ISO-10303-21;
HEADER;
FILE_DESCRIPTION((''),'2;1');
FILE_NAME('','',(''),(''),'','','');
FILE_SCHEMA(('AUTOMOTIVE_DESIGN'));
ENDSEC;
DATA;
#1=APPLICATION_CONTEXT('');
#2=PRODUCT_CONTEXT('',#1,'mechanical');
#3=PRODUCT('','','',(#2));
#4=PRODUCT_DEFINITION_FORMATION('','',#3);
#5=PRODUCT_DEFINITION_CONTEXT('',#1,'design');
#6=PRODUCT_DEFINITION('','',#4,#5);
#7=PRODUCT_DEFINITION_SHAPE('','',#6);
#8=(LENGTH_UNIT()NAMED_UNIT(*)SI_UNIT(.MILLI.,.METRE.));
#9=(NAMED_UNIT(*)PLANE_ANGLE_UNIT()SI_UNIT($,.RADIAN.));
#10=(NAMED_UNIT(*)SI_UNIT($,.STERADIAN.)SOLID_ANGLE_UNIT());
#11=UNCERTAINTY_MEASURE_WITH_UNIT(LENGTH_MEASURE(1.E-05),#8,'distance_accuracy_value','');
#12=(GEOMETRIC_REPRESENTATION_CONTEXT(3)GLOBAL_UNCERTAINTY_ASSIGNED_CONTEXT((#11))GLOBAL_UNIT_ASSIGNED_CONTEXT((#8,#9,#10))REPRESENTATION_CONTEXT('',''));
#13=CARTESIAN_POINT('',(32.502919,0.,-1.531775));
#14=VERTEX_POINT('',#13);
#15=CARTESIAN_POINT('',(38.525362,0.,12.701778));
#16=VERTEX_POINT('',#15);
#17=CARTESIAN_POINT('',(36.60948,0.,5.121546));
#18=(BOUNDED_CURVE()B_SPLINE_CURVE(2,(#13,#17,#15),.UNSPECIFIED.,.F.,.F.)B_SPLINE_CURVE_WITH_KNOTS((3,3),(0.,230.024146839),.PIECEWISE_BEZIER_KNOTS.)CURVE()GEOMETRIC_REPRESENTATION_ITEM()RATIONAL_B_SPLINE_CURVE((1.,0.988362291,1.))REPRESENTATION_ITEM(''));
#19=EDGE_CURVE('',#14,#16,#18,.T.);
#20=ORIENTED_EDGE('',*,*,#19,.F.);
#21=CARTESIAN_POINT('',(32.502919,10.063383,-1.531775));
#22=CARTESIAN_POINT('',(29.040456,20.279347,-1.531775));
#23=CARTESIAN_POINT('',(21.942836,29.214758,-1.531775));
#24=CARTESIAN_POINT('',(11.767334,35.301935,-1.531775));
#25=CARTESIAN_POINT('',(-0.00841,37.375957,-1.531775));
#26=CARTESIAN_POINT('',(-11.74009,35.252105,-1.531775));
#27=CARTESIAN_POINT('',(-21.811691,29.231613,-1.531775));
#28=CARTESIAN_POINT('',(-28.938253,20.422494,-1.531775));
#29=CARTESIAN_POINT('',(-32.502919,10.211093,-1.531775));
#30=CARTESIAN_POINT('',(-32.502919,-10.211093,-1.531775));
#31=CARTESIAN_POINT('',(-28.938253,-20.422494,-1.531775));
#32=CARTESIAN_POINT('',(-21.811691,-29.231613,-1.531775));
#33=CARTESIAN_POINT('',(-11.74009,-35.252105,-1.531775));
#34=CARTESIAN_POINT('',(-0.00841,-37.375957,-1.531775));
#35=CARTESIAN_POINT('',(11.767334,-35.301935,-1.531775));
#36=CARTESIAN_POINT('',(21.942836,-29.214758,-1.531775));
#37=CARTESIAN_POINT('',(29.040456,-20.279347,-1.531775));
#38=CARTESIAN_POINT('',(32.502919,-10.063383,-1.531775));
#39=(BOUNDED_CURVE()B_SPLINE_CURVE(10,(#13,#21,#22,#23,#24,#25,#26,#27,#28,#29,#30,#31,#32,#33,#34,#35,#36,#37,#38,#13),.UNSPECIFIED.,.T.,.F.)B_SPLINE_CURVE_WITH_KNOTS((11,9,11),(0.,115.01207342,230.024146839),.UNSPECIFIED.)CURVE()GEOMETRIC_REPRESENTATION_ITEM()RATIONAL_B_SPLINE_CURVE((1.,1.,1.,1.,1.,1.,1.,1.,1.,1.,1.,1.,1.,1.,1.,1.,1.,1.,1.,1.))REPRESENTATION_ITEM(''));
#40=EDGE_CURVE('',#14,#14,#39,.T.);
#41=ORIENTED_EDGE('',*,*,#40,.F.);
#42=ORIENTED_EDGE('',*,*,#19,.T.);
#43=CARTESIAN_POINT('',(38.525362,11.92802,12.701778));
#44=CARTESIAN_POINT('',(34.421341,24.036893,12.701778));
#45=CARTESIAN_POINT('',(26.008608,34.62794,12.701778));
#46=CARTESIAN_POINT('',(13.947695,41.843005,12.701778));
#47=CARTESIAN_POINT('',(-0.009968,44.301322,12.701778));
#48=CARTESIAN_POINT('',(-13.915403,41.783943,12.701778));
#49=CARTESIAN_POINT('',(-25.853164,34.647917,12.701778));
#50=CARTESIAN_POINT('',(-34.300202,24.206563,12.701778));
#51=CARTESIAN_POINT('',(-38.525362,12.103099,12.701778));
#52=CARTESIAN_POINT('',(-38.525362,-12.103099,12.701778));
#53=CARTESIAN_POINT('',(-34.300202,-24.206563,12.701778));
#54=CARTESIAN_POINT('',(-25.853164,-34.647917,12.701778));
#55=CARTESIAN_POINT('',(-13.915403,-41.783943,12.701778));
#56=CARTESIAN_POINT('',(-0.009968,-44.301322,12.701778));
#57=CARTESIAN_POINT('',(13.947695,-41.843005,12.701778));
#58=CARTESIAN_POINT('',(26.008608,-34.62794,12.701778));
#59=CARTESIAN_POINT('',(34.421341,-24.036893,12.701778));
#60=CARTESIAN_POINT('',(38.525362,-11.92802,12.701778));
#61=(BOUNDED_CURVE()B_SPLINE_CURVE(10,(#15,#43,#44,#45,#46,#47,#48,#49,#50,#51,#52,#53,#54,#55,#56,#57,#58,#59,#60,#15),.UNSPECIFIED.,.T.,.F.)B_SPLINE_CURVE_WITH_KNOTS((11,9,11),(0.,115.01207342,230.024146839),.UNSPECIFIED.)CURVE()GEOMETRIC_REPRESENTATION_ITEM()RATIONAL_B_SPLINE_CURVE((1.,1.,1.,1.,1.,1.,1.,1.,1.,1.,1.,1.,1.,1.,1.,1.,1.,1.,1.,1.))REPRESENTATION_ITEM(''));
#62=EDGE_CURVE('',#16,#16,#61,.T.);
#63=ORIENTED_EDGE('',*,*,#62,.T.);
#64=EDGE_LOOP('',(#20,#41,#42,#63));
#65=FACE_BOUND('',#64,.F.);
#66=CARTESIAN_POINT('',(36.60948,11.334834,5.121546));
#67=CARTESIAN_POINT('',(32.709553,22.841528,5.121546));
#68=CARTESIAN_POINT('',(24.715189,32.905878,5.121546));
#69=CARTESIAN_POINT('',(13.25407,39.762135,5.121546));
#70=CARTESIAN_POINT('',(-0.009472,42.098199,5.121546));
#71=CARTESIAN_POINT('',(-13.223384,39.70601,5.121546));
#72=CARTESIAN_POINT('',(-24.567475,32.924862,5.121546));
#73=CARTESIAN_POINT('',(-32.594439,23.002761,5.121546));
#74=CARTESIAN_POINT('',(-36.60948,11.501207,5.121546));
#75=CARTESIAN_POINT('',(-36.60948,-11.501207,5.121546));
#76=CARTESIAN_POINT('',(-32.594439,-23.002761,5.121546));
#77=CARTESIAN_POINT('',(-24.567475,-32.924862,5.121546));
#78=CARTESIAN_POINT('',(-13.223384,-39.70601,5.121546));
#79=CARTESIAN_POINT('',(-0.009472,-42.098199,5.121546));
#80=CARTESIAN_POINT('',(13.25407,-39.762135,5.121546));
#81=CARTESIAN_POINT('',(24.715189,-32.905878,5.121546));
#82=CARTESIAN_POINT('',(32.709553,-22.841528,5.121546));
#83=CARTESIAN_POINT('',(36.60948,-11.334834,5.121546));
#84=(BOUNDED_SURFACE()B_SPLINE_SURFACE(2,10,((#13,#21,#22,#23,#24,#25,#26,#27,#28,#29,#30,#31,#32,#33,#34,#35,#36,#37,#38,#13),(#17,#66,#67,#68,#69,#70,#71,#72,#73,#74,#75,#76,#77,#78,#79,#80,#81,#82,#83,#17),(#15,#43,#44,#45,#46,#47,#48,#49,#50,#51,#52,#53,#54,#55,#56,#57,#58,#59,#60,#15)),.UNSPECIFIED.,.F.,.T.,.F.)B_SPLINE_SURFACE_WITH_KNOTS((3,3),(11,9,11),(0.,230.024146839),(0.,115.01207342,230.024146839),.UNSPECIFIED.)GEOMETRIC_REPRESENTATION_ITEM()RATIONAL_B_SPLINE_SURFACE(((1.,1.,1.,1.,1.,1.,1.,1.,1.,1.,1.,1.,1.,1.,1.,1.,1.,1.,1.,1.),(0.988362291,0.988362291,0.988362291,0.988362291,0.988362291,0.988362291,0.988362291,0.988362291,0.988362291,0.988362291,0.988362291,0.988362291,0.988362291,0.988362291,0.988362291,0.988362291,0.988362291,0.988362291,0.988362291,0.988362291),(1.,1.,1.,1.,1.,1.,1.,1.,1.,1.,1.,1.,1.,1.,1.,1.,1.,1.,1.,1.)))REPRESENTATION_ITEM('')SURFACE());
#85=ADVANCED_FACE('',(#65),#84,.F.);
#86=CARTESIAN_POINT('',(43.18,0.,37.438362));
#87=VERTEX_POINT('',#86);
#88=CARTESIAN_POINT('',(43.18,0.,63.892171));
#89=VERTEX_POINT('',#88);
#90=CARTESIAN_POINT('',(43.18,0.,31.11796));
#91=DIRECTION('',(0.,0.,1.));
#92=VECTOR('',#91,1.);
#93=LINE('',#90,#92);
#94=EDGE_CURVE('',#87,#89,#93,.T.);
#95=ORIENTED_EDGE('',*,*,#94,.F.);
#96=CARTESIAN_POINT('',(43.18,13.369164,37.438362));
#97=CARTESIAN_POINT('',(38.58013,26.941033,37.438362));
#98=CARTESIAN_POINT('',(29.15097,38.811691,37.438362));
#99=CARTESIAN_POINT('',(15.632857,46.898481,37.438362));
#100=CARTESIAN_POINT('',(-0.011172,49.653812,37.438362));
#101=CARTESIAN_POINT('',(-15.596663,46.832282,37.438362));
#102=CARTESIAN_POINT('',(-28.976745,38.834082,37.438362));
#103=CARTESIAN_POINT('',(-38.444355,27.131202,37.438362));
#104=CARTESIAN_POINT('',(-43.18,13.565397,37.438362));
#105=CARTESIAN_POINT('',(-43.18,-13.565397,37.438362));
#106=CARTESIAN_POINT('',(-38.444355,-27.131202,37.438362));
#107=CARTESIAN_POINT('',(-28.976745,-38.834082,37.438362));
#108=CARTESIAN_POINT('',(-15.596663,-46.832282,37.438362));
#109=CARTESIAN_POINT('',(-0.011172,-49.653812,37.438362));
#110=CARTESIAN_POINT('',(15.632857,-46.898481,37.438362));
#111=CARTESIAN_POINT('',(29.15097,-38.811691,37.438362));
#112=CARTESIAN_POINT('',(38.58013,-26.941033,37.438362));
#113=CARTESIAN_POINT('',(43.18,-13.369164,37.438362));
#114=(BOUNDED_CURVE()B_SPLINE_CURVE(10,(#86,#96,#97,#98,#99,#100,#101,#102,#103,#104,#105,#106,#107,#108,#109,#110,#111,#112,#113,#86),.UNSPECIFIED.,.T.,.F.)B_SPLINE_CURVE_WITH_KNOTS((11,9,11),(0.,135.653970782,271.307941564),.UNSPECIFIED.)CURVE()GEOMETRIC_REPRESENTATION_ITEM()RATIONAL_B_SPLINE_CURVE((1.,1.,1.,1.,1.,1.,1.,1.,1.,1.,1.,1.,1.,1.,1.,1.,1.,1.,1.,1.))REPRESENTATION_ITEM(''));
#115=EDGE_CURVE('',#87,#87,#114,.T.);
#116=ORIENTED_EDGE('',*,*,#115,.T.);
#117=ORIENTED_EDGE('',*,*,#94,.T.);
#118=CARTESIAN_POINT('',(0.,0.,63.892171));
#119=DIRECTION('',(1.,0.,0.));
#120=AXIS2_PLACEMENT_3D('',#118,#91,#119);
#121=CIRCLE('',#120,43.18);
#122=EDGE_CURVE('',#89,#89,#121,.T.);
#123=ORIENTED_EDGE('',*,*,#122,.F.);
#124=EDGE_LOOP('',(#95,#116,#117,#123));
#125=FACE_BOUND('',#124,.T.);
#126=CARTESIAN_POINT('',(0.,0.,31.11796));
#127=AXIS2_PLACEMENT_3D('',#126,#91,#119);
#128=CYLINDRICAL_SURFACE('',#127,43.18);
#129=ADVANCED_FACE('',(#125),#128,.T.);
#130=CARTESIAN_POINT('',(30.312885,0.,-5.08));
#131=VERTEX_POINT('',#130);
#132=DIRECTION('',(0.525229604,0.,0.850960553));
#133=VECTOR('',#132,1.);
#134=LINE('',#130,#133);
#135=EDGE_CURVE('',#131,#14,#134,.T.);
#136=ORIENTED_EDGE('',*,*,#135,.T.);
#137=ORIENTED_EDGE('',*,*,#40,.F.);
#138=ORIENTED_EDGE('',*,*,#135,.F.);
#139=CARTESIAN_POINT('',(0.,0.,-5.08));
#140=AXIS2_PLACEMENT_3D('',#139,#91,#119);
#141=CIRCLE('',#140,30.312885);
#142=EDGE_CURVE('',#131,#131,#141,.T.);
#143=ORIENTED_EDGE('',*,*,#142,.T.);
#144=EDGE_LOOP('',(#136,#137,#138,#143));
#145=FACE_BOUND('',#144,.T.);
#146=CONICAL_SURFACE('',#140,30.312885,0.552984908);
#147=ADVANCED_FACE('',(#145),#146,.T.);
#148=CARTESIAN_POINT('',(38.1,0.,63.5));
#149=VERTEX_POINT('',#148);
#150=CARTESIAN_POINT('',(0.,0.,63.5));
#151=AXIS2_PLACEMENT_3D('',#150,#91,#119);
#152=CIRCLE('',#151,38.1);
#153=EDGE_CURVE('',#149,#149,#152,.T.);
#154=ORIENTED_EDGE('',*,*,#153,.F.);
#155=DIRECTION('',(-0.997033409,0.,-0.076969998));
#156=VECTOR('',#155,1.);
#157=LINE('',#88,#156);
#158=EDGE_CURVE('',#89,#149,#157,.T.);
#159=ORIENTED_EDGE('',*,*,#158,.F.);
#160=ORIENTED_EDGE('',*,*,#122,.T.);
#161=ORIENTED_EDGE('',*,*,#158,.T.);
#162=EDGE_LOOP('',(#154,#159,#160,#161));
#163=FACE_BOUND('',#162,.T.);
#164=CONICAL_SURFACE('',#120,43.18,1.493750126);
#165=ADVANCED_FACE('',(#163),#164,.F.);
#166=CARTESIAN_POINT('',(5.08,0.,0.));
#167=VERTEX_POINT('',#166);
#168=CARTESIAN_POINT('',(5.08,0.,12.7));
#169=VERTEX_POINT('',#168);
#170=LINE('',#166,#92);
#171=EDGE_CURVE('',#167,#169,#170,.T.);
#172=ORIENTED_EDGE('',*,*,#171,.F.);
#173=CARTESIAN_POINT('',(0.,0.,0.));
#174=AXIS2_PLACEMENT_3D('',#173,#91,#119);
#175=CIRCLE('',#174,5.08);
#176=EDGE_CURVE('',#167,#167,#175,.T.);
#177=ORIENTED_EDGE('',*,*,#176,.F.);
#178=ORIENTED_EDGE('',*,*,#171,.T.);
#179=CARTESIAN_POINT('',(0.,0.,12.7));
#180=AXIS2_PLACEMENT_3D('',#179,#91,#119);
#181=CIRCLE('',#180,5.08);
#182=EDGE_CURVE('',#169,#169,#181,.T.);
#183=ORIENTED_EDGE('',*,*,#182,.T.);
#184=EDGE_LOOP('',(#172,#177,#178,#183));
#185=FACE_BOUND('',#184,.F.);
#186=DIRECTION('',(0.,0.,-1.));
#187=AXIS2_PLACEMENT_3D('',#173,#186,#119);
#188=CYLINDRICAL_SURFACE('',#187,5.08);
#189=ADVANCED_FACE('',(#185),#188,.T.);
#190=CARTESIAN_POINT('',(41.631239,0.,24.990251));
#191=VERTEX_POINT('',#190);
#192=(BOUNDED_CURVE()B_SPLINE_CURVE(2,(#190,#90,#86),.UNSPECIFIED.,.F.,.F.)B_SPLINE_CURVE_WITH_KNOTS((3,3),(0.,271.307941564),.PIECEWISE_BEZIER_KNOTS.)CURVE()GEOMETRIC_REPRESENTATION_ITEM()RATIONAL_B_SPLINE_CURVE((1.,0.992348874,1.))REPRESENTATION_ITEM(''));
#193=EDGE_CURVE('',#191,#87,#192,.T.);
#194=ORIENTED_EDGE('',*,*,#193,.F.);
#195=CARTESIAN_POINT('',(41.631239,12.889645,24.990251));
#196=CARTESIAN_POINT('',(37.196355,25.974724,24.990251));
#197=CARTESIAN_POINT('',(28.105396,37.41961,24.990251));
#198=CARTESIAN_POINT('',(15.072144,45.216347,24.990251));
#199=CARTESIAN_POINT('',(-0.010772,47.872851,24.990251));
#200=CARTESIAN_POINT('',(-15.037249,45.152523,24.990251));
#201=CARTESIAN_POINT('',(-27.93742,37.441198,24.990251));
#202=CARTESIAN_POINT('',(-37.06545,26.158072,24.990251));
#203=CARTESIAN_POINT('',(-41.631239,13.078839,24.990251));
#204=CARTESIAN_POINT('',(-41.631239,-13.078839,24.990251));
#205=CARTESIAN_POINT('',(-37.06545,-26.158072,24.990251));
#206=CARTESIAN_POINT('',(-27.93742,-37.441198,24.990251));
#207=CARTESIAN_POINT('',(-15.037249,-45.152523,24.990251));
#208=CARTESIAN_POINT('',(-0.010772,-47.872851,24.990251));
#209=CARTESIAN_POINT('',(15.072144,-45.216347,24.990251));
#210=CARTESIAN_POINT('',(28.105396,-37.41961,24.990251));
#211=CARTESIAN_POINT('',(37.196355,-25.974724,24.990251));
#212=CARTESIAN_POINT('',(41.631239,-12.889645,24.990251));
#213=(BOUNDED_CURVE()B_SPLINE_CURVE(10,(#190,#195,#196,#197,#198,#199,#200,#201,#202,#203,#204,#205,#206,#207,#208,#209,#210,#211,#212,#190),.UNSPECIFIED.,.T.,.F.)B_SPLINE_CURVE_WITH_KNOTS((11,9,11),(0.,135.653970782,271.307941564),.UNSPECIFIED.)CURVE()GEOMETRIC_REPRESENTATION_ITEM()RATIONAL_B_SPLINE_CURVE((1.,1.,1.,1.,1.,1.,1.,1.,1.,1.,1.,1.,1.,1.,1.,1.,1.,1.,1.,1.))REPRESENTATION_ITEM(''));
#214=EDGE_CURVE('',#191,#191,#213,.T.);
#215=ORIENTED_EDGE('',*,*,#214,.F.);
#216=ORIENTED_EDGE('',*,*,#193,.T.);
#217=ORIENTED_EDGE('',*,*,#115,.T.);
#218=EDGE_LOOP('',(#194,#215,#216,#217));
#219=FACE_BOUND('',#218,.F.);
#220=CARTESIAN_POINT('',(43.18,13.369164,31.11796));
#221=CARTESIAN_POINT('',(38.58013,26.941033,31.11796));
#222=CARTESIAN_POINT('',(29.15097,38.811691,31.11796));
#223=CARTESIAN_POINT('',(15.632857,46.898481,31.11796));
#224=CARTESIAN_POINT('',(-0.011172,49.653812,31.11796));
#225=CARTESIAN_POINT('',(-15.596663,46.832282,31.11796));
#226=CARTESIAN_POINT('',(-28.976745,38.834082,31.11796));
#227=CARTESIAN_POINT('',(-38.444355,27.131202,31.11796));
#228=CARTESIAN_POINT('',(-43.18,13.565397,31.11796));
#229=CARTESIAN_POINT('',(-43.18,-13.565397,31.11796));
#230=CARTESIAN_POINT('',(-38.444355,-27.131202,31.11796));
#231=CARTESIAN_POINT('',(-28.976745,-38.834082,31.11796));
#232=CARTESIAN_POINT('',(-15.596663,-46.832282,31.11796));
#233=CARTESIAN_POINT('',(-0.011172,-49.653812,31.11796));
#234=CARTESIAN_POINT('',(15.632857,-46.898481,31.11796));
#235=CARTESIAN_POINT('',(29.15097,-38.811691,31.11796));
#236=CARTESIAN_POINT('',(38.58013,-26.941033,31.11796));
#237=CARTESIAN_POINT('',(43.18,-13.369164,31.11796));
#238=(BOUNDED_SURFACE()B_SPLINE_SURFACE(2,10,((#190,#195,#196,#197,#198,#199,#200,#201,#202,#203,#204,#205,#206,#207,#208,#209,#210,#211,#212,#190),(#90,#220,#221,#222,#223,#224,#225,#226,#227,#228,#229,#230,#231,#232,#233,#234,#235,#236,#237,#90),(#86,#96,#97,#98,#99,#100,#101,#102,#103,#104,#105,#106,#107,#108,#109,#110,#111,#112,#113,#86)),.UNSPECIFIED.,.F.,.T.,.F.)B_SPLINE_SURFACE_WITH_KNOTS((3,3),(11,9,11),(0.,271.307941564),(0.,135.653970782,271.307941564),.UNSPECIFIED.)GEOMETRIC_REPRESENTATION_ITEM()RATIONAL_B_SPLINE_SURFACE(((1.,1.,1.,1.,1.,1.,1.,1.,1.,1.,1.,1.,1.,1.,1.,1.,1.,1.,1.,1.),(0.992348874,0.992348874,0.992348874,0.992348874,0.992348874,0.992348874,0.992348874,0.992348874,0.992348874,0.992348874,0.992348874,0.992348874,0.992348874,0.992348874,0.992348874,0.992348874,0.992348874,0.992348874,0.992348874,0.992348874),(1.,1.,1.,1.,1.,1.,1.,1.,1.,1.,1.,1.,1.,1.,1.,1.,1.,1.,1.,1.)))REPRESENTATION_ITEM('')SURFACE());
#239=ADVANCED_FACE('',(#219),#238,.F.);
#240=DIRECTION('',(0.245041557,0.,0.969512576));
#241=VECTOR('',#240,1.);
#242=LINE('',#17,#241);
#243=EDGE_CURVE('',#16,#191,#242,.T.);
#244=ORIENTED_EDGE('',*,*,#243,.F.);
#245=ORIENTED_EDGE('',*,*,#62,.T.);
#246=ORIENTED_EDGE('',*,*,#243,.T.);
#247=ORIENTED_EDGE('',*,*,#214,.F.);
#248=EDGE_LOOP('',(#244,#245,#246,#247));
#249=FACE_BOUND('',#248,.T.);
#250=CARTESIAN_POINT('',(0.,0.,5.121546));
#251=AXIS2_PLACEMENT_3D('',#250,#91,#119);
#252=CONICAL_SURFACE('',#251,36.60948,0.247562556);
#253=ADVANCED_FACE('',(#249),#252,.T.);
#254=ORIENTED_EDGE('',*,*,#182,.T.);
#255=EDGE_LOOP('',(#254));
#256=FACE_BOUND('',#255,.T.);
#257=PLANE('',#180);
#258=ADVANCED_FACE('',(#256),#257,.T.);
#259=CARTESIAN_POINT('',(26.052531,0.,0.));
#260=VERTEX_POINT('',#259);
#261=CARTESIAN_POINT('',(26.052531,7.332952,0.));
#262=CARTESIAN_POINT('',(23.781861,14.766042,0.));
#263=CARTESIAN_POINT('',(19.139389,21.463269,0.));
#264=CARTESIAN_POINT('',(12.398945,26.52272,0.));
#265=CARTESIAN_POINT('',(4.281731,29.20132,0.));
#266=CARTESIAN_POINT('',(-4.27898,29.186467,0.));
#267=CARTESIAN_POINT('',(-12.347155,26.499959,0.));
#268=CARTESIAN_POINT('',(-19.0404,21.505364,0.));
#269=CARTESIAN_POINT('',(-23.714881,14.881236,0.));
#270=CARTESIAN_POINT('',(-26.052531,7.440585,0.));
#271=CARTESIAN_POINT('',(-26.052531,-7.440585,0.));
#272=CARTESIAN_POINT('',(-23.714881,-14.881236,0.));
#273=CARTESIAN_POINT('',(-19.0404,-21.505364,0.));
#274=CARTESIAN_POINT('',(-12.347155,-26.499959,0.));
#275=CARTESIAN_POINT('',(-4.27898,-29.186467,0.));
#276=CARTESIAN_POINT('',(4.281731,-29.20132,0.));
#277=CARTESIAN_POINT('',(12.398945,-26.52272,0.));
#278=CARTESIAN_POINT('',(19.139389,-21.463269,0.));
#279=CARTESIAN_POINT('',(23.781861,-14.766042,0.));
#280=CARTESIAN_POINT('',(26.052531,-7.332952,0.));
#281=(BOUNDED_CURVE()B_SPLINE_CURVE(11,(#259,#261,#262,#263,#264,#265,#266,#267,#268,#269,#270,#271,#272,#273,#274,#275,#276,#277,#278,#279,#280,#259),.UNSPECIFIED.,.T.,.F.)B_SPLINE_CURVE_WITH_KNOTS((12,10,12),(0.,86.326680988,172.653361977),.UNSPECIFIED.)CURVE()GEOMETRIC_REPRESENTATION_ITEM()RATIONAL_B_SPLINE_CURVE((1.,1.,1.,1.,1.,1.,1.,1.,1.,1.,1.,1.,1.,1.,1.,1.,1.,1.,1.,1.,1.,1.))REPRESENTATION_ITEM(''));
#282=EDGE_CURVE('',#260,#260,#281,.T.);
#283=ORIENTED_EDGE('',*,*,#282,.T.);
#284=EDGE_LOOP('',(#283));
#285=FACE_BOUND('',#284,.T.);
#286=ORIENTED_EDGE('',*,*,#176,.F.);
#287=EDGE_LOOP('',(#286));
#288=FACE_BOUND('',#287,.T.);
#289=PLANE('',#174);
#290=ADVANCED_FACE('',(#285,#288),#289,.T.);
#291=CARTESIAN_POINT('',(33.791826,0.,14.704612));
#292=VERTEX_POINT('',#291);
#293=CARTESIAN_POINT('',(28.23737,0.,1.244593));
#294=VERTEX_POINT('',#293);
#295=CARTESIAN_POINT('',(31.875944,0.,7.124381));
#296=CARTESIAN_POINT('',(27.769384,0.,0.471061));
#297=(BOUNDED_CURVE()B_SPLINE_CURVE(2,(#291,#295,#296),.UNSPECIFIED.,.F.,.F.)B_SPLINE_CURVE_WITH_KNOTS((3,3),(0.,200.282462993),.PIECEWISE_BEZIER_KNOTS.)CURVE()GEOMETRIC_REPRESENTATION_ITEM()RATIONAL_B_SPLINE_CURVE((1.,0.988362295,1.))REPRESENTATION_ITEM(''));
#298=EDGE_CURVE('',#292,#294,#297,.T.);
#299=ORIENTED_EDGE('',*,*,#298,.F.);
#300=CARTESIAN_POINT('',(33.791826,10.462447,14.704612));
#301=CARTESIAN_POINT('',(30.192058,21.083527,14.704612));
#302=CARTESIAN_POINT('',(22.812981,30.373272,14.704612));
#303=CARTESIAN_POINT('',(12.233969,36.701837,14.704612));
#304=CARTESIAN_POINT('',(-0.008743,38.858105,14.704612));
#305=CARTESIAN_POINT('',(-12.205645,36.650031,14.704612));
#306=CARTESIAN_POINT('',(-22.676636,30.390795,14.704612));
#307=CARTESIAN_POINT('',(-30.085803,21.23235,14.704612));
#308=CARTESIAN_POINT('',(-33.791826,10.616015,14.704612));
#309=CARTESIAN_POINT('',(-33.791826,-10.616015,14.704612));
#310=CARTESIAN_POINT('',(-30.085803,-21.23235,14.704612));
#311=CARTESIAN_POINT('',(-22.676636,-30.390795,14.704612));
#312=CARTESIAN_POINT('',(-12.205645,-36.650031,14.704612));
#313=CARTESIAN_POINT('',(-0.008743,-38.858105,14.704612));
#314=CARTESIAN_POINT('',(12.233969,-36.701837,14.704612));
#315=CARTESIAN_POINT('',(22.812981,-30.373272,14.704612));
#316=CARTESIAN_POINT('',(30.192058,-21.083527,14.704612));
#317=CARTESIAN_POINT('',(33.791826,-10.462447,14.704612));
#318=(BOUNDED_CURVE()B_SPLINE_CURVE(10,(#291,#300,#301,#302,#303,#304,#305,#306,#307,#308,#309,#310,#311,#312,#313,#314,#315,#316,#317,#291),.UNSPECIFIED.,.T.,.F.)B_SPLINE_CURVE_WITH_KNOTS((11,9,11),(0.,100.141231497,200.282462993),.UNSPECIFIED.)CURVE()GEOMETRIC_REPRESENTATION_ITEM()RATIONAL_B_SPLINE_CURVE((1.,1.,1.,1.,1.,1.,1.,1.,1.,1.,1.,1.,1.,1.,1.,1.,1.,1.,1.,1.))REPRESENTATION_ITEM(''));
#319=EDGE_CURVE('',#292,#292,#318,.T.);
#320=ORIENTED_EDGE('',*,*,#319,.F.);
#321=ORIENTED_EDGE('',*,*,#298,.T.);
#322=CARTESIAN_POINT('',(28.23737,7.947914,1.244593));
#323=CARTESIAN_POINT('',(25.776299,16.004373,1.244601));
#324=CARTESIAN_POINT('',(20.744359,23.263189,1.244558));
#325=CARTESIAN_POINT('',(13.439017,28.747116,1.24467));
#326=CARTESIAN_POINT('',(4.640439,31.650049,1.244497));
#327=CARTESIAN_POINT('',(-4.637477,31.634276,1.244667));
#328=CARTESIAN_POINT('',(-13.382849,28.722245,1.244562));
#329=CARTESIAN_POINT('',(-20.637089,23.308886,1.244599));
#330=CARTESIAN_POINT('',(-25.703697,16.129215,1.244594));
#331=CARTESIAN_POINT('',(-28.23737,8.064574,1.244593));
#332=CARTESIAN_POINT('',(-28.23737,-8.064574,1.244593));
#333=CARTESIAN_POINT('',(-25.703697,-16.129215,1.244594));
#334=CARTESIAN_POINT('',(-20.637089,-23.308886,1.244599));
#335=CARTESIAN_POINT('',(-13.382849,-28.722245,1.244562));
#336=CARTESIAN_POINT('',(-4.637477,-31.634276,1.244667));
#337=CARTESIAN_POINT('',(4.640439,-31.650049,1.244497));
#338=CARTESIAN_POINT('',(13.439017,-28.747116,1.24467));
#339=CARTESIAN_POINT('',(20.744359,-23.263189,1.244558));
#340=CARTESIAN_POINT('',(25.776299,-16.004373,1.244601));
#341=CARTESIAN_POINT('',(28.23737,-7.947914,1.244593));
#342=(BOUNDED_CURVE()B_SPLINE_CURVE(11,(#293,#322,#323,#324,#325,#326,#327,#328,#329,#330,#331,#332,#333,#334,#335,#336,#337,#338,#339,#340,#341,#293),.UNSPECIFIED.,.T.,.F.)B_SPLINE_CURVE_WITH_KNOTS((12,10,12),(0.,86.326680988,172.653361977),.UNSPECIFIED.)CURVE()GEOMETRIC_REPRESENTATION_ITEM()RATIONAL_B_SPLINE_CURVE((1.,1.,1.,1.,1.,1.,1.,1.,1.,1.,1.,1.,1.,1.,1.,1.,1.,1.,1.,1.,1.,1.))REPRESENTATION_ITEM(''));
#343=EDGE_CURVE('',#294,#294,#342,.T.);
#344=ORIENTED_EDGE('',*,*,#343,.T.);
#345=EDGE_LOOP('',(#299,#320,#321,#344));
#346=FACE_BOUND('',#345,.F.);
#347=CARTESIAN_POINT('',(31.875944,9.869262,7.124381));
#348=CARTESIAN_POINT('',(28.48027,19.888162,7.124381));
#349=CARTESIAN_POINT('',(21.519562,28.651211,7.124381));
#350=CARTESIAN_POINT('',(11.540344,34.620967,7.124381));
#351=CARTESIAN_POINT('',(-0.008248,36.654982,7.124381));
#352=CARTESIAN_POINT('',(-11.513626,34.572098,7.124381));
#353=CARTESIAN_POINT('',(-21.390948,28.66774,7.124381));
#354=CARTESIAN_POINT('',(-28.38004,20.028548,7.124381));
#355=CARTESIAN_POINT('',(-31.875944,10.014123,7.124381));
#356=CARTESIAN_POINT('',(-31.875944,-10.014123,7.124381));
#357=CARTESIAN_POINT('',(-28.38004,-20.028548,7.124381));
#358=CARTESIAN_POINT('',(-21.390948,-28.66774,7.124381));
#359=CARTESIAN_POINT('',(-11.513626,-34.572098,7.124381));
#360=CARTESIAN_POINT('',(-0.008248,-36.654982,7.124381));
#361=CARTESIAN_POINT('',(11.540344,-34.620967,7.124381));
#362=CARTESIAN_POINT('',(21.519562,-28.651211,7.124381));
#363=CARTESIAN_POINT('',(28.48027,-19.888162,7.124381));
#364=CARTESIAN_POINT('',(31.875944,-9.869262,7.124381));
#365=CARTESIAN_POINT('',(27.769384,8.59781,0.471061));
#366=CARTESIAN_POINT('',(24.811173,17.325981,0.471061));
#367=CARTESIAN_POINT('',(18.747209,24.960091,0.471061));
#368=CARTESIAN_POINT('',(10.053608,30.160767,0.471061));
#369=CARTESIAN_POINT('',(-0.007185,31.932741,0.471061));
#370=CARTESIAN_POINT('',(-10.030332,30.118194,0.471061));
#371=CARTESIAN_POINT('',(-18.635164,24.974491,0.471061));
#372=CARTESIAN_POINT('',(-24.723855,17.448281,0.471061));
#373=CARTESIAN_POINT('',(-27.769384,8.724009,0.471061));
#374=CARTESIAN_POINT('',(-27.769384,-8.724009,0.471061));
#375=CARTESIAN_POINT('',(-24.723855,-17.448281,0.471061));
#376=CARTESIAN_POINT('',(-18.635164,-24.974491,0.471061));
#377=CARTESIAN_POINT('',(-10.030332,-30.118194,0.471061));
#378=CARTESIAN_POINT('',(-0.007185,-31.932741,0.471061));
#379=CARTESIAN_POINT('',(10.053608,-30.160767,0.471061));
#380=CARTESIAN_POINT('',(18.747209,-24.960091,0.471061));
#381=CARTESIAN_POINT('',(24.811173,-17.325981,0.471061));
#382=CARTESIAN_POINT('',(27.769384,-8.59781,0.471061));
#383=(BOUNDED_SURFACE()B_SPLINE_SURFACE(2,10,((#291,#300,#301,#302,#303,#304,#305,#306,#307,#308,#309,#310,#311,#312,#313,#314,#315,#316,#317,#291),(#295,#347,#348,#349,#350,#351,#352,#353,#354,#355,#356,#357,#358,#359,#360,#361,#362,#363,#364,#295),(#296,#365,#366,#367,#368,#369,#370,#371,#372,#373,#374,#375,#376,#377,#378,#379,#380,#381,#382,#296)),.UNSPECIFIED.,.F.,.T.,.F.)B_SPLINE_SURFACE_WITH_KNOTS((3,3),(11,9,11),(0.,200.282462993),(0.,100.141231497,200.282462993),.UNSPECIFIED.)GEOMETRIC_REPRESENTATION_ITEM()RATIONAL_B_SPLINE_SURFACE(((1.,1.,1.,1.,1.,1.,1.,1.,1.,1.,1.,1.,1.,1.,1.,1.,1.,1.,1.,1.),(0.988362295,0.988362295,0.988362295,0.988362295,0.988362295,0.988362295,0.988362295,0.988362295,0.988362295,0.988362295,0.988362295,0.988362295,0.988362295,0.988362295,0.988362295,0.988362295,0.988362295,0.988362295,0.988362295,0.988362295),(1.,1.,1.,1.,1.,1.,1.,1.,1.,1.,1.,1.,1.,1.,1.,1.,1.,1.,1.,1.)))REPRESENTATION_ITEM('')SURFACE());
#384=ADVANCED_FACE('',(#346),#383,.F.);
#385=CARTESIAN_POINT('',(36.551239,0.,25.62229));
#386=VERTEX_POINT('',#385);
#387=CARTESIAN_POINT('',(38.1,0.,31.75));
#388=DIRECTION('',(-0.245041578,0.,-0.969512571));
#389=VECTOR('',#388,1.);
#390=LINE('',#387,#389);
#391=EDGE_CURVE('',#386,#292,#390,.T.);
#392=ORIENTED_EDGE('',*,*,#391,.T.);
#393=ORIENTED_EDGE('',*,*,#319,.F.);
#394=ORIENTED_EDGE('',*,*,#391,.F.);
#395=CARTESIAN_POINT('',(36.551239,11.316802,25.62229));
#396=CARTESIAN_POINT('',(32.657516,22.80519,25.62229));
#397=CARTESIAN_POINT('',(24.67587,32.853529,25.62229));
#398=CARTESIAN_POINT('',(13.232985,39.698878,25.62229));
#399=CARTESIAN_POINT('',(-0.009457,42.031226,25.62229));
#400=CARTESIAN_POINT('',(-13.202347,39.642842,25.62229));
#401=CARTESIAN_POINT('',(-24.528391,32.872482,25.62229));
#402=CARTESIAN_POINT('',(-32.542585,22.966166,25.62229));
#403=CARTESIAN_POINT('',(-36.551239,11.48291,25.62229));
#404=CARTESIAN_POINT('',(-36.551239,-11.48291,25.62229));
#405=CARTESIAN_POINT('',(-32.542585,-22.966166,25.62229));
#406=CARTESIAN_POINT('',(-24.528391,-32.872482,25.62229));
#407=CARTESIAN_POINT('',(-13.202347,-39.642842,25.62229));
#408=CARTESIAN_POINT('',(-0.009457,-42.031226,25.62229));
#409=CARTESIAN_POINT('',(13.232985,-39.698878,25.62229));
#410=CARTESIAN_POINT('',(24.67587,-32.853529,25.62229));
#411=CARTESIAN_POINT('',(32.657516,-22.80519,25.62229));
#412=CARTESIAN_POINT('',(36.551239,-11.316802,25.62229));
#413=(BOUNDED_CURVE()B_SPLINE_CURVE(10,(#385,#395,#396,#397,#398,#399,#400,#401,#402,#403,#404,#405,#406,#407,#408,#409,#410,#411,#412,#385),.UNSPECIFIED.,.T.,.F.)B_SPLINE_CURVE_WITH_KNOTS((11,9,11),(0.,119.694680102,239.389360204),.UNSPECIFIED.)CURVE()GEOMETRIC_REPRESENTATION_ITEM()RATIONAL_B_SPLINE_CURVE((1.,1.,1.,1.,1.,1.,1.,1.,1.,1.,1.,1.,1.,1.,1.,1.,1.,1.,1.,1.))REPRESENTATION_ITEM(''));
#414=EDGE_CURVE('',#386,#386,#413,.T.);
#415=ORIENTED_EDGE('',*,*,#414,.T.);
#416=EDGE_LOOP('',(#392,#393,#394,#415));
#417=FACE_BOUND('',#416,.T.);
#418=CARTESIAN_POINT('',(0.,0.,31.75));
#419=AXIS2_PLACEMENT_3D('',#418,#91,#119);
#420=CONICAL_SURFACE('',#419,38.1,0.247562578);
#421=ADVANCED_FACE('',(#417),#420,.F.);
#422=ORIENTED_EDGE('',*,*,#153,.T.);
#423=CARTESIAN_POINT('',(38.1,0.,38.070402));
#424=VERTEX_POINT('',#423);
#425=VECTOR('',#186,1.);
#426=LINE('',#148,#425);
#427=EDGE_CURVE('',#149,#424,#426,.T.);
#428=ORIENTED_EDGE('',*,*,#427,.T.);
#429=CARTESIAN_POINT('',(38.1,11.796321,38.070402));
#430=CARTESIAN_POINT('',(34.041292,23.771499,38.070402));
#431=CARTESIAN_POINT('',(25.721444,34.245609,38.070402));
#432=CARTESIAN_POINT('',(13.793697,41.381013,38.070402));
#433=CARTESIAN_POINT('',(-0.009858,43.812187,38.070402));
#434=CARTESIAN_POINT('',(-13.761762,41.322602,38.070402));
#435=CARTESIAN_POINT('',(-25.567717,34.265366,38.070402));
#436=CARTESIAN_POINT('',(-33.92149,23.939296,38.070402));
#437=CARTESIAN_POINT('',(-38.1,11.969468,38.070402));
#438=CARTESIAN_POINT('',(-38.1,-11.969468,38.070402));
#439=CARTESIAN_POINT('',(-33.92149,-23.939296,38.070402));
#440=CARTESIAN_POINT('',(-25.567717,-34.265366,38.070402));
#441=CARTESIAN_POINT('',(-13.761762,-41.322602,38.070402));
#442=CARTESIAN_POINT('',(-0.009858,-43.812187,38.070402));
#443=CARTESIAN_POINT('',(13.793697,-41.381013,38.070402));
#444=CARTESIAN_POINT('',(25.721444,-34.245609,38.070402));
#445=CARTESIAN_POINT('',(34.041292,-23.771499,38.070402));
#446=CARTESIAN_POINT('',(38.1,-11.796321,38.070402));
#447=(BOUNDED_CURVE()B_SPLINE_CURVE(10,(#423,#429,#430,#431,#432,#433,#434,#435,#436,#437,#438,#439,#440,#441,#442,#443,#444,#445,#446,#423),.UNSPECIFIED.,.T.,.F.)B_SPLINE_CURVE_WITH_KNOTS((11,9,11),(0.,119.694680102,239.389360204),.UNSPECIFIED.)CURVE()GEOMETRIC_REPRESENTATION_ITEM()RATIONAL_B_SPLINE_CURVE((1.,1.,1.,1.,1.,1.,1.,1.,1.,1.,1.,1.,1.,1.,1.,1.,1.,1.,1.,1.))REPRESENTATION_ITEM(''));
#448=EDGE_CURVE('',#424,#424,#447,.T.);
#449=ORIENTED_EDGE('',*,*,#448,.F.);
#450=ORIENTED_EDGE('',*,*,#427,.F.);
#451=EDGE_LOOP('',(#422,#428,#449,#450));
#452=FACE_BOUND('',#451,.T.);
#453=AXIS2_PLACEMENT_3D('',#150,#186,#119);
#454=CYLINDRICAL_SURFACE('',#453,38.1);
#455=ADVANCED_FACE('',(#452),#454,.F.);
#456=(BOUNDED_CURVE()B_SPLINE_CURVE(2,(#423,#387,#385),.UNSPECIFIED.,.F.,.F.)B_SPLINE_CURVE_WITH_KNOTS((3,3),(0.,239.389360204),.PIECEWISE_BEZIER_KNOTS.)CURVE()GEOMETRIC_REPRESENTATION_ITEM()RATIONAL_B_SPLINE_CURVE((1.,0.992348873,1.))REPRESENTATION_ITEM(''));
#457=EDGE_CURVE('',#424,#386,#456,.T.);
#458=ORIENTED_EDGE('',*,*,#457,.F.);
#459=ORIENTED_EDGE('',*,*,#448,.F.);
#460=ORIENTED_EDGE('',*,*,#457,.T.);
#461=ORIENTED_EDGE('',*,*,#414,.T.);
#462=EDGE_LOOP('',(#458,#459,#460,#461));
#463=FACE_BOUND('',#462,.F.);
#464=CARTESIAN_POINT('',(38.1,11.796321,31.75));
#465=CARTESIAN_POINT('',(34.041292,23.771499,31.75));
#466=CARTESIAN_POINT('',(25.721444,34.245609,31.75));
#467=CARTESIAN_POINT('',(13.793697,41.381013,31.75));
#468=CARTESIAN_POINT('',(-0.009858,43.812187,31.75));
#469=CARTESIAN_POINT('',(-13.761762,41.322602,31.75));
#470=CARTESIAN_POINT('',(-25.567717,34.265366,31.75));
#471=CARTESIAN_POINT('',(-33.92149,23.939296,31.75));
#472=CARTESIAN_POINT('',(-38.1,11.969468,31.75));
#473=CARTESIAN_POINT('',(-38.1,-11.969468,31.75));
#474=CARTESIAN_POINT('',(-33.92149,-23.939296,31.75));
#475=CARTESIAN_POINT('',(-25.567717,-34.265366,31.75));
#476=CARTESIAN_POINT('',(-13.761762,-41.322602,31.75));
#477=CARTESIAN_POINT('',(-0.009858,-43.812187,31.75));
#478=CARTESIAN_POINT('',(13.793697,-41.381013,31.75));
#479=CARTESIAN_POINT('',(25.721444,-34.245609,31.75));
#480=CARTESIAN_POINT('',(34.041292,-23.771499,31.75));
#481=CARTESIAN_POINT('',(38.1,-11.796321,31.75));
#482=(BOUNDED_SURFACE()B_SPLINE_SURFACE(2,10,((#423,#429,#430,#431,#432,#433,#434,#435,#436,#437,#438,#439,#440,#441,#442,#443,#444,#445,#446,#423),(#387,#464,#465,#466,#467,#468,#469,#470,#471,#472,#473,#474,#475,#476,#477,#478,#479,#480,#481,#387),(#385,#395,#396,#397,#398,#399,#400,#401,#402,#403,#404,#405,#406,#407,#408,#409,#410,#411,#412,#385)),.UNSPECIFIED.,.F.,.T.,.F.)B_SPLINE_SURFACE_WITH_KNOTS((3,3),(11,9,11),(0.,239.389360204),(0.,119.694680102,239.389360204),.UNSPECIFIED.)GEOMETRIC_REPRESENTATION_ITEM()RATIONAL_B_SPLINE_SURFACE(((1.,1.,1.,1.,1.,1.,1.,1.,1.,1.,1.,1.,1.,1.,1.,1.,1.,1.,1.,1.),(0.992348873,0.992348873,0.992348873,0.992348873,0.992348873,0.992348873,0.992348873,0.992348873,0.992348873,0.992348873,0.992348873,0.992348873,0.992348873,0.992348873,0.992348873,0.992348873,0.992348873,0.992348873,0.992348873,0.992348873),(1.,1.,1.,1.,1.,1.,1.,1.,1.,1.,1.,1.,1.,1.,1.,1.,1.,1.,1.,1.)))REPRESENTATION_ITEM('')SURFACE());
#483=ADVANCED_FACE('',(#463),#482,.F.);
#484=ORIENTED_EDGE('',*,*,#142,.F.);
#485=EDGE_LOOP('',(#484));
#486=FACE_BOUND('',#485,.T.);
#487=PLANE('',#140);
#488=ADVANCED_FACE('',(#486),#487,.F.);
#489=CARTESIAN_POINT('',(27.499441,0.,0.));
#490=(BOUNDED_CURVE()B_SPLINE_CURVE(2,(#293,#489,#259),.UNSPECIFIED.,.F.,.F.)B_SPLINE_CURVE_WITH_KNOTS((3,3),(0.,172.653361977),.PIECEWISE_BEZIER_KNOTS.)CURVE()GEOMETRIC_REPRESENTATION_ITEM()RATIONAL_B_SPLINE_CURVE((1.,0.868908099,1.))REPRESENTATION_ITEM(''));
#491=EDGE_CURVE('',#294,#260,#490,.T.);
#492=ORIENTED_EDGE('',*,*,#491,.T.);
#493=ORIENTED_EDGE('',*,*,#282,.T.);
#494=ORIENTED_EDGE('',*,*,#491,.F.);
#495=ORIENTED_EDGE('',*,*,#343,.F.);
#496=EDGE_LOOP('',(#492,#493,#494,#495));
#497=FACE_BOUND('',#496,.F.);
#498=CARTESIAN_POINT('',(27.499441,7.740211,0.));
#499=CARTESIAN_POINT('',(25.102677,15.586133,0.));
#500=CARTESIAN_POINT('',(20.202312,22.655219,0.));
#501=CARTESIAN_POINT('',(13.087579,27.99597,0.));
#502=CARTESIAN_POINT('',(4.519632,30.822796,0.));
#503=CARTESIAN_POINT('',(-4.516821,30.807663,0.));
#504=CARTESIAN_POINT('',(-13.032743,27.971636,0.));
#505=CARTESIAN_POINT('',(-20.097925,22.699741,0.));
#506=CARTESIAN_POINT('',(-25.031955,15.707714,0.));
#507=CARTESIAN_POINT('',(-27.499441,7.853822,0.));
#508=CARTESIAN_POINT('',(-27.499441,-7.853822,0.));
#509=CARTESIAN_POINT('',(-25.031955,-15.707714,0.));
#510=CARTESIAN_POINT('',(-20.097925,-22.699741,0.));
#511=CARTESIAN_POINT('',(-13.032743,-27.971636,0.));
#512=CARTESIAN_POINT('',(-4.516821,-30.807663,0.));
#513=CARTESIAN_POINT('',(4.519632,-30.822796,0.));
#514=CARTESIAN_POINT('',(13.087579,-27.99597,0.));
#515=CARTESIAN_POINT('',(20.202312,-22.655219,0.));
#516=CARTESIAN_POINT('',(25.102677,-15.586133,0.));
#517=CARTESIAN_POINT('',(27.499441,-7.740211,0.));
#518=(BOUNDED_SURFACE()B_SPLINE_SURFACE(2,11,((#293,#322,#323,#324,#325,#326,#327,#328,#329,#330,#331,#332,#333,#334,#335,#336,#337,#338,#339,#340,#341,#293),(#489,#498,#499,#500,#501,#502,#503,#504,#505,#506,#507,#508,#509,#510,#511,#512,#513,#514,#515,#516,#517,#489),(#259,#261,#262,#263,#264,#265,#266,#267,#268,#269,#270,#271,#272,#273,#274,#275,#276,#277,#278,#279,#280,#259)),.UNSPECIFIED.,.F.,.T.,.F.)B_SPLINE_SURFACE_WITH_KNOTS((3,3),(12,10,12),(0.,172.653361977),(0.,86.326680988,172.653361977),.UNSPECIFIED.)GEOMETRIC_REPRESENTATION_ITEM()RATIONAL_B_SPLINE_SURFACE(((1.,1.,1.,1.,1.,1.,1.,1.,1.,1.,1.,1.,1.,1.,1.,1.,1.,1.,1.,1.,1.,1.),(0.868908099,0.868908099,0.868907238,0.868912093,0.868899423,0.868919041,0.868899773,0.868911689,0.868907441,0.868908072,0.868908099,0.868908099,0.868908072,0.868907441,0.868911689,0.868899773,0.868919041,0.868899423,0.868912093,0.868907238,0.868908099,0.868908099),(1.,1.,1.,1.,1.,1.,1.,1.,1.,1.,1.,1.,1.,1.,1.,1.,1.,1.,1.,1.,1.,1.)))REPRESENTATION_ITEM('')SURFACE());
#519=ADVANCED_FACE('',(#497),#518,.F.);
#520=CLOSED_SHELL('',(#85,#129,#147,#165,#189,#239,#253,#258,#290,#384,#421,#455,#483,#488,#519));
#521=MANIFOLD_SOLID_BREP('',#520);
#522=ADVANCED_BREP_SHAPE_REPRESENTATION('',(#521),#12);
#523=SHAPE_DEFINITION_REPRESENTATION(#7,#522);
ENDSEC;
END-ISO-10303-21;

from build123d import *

# Parameters (mm, degrees)
F2_R     = 50.8
F3_R     = 50.8
F4_R     = 2.54
F5_R     = 5.08
F6_DEPTH = 12.7


with BuildPart() as f1:
    # F0 (on Front) → F1 (revolve)
    with BuildSketch(Plane.XZ):
        Polygon((43.18, 63.892171), (38.1, 63.5), (38.1, 31.75), (31.875944, 7.124381), (27.478636, 0), (0, 0), (0, -5.08), (30.312885, -5.08), (36.60948, 5.121546), (43.18, 31.11796), align=None)
    revolve(axis=Axis((0, 0, 31.75), (0, 0, 1)))

    # F2
    f2_edges = [f1.edges().sort_by_distance(p)[0] for p in [
        (-43.18, 0, 31.11796),
        (-36.60948, 0, 5.121546),
    ]]
    fillet(f2_edges, radius=F2_R)

    # F3
    f3_edges = [f1.edges().sort_by_distance(p)[0] for p in [
        (-38.1, 0, 31.75),
        (-31.875944, 0, 7.124381),
    ]]
    fillet(f3_edges, radius=F3_R)

    # F4
    f4_edges = [f1.edges().sort_by_distance(p)[0] for p in [
        (-27.478636, 0, 0),
    ]]
    fillet(f4_edges, radius=F4_R)

    # F5 (on face) → F6 (join)
    with BuildSketch(Plane.XY):
        Circle(F5_R)
    extrude(amount=F6_DEPTH)


solid = f1.part
